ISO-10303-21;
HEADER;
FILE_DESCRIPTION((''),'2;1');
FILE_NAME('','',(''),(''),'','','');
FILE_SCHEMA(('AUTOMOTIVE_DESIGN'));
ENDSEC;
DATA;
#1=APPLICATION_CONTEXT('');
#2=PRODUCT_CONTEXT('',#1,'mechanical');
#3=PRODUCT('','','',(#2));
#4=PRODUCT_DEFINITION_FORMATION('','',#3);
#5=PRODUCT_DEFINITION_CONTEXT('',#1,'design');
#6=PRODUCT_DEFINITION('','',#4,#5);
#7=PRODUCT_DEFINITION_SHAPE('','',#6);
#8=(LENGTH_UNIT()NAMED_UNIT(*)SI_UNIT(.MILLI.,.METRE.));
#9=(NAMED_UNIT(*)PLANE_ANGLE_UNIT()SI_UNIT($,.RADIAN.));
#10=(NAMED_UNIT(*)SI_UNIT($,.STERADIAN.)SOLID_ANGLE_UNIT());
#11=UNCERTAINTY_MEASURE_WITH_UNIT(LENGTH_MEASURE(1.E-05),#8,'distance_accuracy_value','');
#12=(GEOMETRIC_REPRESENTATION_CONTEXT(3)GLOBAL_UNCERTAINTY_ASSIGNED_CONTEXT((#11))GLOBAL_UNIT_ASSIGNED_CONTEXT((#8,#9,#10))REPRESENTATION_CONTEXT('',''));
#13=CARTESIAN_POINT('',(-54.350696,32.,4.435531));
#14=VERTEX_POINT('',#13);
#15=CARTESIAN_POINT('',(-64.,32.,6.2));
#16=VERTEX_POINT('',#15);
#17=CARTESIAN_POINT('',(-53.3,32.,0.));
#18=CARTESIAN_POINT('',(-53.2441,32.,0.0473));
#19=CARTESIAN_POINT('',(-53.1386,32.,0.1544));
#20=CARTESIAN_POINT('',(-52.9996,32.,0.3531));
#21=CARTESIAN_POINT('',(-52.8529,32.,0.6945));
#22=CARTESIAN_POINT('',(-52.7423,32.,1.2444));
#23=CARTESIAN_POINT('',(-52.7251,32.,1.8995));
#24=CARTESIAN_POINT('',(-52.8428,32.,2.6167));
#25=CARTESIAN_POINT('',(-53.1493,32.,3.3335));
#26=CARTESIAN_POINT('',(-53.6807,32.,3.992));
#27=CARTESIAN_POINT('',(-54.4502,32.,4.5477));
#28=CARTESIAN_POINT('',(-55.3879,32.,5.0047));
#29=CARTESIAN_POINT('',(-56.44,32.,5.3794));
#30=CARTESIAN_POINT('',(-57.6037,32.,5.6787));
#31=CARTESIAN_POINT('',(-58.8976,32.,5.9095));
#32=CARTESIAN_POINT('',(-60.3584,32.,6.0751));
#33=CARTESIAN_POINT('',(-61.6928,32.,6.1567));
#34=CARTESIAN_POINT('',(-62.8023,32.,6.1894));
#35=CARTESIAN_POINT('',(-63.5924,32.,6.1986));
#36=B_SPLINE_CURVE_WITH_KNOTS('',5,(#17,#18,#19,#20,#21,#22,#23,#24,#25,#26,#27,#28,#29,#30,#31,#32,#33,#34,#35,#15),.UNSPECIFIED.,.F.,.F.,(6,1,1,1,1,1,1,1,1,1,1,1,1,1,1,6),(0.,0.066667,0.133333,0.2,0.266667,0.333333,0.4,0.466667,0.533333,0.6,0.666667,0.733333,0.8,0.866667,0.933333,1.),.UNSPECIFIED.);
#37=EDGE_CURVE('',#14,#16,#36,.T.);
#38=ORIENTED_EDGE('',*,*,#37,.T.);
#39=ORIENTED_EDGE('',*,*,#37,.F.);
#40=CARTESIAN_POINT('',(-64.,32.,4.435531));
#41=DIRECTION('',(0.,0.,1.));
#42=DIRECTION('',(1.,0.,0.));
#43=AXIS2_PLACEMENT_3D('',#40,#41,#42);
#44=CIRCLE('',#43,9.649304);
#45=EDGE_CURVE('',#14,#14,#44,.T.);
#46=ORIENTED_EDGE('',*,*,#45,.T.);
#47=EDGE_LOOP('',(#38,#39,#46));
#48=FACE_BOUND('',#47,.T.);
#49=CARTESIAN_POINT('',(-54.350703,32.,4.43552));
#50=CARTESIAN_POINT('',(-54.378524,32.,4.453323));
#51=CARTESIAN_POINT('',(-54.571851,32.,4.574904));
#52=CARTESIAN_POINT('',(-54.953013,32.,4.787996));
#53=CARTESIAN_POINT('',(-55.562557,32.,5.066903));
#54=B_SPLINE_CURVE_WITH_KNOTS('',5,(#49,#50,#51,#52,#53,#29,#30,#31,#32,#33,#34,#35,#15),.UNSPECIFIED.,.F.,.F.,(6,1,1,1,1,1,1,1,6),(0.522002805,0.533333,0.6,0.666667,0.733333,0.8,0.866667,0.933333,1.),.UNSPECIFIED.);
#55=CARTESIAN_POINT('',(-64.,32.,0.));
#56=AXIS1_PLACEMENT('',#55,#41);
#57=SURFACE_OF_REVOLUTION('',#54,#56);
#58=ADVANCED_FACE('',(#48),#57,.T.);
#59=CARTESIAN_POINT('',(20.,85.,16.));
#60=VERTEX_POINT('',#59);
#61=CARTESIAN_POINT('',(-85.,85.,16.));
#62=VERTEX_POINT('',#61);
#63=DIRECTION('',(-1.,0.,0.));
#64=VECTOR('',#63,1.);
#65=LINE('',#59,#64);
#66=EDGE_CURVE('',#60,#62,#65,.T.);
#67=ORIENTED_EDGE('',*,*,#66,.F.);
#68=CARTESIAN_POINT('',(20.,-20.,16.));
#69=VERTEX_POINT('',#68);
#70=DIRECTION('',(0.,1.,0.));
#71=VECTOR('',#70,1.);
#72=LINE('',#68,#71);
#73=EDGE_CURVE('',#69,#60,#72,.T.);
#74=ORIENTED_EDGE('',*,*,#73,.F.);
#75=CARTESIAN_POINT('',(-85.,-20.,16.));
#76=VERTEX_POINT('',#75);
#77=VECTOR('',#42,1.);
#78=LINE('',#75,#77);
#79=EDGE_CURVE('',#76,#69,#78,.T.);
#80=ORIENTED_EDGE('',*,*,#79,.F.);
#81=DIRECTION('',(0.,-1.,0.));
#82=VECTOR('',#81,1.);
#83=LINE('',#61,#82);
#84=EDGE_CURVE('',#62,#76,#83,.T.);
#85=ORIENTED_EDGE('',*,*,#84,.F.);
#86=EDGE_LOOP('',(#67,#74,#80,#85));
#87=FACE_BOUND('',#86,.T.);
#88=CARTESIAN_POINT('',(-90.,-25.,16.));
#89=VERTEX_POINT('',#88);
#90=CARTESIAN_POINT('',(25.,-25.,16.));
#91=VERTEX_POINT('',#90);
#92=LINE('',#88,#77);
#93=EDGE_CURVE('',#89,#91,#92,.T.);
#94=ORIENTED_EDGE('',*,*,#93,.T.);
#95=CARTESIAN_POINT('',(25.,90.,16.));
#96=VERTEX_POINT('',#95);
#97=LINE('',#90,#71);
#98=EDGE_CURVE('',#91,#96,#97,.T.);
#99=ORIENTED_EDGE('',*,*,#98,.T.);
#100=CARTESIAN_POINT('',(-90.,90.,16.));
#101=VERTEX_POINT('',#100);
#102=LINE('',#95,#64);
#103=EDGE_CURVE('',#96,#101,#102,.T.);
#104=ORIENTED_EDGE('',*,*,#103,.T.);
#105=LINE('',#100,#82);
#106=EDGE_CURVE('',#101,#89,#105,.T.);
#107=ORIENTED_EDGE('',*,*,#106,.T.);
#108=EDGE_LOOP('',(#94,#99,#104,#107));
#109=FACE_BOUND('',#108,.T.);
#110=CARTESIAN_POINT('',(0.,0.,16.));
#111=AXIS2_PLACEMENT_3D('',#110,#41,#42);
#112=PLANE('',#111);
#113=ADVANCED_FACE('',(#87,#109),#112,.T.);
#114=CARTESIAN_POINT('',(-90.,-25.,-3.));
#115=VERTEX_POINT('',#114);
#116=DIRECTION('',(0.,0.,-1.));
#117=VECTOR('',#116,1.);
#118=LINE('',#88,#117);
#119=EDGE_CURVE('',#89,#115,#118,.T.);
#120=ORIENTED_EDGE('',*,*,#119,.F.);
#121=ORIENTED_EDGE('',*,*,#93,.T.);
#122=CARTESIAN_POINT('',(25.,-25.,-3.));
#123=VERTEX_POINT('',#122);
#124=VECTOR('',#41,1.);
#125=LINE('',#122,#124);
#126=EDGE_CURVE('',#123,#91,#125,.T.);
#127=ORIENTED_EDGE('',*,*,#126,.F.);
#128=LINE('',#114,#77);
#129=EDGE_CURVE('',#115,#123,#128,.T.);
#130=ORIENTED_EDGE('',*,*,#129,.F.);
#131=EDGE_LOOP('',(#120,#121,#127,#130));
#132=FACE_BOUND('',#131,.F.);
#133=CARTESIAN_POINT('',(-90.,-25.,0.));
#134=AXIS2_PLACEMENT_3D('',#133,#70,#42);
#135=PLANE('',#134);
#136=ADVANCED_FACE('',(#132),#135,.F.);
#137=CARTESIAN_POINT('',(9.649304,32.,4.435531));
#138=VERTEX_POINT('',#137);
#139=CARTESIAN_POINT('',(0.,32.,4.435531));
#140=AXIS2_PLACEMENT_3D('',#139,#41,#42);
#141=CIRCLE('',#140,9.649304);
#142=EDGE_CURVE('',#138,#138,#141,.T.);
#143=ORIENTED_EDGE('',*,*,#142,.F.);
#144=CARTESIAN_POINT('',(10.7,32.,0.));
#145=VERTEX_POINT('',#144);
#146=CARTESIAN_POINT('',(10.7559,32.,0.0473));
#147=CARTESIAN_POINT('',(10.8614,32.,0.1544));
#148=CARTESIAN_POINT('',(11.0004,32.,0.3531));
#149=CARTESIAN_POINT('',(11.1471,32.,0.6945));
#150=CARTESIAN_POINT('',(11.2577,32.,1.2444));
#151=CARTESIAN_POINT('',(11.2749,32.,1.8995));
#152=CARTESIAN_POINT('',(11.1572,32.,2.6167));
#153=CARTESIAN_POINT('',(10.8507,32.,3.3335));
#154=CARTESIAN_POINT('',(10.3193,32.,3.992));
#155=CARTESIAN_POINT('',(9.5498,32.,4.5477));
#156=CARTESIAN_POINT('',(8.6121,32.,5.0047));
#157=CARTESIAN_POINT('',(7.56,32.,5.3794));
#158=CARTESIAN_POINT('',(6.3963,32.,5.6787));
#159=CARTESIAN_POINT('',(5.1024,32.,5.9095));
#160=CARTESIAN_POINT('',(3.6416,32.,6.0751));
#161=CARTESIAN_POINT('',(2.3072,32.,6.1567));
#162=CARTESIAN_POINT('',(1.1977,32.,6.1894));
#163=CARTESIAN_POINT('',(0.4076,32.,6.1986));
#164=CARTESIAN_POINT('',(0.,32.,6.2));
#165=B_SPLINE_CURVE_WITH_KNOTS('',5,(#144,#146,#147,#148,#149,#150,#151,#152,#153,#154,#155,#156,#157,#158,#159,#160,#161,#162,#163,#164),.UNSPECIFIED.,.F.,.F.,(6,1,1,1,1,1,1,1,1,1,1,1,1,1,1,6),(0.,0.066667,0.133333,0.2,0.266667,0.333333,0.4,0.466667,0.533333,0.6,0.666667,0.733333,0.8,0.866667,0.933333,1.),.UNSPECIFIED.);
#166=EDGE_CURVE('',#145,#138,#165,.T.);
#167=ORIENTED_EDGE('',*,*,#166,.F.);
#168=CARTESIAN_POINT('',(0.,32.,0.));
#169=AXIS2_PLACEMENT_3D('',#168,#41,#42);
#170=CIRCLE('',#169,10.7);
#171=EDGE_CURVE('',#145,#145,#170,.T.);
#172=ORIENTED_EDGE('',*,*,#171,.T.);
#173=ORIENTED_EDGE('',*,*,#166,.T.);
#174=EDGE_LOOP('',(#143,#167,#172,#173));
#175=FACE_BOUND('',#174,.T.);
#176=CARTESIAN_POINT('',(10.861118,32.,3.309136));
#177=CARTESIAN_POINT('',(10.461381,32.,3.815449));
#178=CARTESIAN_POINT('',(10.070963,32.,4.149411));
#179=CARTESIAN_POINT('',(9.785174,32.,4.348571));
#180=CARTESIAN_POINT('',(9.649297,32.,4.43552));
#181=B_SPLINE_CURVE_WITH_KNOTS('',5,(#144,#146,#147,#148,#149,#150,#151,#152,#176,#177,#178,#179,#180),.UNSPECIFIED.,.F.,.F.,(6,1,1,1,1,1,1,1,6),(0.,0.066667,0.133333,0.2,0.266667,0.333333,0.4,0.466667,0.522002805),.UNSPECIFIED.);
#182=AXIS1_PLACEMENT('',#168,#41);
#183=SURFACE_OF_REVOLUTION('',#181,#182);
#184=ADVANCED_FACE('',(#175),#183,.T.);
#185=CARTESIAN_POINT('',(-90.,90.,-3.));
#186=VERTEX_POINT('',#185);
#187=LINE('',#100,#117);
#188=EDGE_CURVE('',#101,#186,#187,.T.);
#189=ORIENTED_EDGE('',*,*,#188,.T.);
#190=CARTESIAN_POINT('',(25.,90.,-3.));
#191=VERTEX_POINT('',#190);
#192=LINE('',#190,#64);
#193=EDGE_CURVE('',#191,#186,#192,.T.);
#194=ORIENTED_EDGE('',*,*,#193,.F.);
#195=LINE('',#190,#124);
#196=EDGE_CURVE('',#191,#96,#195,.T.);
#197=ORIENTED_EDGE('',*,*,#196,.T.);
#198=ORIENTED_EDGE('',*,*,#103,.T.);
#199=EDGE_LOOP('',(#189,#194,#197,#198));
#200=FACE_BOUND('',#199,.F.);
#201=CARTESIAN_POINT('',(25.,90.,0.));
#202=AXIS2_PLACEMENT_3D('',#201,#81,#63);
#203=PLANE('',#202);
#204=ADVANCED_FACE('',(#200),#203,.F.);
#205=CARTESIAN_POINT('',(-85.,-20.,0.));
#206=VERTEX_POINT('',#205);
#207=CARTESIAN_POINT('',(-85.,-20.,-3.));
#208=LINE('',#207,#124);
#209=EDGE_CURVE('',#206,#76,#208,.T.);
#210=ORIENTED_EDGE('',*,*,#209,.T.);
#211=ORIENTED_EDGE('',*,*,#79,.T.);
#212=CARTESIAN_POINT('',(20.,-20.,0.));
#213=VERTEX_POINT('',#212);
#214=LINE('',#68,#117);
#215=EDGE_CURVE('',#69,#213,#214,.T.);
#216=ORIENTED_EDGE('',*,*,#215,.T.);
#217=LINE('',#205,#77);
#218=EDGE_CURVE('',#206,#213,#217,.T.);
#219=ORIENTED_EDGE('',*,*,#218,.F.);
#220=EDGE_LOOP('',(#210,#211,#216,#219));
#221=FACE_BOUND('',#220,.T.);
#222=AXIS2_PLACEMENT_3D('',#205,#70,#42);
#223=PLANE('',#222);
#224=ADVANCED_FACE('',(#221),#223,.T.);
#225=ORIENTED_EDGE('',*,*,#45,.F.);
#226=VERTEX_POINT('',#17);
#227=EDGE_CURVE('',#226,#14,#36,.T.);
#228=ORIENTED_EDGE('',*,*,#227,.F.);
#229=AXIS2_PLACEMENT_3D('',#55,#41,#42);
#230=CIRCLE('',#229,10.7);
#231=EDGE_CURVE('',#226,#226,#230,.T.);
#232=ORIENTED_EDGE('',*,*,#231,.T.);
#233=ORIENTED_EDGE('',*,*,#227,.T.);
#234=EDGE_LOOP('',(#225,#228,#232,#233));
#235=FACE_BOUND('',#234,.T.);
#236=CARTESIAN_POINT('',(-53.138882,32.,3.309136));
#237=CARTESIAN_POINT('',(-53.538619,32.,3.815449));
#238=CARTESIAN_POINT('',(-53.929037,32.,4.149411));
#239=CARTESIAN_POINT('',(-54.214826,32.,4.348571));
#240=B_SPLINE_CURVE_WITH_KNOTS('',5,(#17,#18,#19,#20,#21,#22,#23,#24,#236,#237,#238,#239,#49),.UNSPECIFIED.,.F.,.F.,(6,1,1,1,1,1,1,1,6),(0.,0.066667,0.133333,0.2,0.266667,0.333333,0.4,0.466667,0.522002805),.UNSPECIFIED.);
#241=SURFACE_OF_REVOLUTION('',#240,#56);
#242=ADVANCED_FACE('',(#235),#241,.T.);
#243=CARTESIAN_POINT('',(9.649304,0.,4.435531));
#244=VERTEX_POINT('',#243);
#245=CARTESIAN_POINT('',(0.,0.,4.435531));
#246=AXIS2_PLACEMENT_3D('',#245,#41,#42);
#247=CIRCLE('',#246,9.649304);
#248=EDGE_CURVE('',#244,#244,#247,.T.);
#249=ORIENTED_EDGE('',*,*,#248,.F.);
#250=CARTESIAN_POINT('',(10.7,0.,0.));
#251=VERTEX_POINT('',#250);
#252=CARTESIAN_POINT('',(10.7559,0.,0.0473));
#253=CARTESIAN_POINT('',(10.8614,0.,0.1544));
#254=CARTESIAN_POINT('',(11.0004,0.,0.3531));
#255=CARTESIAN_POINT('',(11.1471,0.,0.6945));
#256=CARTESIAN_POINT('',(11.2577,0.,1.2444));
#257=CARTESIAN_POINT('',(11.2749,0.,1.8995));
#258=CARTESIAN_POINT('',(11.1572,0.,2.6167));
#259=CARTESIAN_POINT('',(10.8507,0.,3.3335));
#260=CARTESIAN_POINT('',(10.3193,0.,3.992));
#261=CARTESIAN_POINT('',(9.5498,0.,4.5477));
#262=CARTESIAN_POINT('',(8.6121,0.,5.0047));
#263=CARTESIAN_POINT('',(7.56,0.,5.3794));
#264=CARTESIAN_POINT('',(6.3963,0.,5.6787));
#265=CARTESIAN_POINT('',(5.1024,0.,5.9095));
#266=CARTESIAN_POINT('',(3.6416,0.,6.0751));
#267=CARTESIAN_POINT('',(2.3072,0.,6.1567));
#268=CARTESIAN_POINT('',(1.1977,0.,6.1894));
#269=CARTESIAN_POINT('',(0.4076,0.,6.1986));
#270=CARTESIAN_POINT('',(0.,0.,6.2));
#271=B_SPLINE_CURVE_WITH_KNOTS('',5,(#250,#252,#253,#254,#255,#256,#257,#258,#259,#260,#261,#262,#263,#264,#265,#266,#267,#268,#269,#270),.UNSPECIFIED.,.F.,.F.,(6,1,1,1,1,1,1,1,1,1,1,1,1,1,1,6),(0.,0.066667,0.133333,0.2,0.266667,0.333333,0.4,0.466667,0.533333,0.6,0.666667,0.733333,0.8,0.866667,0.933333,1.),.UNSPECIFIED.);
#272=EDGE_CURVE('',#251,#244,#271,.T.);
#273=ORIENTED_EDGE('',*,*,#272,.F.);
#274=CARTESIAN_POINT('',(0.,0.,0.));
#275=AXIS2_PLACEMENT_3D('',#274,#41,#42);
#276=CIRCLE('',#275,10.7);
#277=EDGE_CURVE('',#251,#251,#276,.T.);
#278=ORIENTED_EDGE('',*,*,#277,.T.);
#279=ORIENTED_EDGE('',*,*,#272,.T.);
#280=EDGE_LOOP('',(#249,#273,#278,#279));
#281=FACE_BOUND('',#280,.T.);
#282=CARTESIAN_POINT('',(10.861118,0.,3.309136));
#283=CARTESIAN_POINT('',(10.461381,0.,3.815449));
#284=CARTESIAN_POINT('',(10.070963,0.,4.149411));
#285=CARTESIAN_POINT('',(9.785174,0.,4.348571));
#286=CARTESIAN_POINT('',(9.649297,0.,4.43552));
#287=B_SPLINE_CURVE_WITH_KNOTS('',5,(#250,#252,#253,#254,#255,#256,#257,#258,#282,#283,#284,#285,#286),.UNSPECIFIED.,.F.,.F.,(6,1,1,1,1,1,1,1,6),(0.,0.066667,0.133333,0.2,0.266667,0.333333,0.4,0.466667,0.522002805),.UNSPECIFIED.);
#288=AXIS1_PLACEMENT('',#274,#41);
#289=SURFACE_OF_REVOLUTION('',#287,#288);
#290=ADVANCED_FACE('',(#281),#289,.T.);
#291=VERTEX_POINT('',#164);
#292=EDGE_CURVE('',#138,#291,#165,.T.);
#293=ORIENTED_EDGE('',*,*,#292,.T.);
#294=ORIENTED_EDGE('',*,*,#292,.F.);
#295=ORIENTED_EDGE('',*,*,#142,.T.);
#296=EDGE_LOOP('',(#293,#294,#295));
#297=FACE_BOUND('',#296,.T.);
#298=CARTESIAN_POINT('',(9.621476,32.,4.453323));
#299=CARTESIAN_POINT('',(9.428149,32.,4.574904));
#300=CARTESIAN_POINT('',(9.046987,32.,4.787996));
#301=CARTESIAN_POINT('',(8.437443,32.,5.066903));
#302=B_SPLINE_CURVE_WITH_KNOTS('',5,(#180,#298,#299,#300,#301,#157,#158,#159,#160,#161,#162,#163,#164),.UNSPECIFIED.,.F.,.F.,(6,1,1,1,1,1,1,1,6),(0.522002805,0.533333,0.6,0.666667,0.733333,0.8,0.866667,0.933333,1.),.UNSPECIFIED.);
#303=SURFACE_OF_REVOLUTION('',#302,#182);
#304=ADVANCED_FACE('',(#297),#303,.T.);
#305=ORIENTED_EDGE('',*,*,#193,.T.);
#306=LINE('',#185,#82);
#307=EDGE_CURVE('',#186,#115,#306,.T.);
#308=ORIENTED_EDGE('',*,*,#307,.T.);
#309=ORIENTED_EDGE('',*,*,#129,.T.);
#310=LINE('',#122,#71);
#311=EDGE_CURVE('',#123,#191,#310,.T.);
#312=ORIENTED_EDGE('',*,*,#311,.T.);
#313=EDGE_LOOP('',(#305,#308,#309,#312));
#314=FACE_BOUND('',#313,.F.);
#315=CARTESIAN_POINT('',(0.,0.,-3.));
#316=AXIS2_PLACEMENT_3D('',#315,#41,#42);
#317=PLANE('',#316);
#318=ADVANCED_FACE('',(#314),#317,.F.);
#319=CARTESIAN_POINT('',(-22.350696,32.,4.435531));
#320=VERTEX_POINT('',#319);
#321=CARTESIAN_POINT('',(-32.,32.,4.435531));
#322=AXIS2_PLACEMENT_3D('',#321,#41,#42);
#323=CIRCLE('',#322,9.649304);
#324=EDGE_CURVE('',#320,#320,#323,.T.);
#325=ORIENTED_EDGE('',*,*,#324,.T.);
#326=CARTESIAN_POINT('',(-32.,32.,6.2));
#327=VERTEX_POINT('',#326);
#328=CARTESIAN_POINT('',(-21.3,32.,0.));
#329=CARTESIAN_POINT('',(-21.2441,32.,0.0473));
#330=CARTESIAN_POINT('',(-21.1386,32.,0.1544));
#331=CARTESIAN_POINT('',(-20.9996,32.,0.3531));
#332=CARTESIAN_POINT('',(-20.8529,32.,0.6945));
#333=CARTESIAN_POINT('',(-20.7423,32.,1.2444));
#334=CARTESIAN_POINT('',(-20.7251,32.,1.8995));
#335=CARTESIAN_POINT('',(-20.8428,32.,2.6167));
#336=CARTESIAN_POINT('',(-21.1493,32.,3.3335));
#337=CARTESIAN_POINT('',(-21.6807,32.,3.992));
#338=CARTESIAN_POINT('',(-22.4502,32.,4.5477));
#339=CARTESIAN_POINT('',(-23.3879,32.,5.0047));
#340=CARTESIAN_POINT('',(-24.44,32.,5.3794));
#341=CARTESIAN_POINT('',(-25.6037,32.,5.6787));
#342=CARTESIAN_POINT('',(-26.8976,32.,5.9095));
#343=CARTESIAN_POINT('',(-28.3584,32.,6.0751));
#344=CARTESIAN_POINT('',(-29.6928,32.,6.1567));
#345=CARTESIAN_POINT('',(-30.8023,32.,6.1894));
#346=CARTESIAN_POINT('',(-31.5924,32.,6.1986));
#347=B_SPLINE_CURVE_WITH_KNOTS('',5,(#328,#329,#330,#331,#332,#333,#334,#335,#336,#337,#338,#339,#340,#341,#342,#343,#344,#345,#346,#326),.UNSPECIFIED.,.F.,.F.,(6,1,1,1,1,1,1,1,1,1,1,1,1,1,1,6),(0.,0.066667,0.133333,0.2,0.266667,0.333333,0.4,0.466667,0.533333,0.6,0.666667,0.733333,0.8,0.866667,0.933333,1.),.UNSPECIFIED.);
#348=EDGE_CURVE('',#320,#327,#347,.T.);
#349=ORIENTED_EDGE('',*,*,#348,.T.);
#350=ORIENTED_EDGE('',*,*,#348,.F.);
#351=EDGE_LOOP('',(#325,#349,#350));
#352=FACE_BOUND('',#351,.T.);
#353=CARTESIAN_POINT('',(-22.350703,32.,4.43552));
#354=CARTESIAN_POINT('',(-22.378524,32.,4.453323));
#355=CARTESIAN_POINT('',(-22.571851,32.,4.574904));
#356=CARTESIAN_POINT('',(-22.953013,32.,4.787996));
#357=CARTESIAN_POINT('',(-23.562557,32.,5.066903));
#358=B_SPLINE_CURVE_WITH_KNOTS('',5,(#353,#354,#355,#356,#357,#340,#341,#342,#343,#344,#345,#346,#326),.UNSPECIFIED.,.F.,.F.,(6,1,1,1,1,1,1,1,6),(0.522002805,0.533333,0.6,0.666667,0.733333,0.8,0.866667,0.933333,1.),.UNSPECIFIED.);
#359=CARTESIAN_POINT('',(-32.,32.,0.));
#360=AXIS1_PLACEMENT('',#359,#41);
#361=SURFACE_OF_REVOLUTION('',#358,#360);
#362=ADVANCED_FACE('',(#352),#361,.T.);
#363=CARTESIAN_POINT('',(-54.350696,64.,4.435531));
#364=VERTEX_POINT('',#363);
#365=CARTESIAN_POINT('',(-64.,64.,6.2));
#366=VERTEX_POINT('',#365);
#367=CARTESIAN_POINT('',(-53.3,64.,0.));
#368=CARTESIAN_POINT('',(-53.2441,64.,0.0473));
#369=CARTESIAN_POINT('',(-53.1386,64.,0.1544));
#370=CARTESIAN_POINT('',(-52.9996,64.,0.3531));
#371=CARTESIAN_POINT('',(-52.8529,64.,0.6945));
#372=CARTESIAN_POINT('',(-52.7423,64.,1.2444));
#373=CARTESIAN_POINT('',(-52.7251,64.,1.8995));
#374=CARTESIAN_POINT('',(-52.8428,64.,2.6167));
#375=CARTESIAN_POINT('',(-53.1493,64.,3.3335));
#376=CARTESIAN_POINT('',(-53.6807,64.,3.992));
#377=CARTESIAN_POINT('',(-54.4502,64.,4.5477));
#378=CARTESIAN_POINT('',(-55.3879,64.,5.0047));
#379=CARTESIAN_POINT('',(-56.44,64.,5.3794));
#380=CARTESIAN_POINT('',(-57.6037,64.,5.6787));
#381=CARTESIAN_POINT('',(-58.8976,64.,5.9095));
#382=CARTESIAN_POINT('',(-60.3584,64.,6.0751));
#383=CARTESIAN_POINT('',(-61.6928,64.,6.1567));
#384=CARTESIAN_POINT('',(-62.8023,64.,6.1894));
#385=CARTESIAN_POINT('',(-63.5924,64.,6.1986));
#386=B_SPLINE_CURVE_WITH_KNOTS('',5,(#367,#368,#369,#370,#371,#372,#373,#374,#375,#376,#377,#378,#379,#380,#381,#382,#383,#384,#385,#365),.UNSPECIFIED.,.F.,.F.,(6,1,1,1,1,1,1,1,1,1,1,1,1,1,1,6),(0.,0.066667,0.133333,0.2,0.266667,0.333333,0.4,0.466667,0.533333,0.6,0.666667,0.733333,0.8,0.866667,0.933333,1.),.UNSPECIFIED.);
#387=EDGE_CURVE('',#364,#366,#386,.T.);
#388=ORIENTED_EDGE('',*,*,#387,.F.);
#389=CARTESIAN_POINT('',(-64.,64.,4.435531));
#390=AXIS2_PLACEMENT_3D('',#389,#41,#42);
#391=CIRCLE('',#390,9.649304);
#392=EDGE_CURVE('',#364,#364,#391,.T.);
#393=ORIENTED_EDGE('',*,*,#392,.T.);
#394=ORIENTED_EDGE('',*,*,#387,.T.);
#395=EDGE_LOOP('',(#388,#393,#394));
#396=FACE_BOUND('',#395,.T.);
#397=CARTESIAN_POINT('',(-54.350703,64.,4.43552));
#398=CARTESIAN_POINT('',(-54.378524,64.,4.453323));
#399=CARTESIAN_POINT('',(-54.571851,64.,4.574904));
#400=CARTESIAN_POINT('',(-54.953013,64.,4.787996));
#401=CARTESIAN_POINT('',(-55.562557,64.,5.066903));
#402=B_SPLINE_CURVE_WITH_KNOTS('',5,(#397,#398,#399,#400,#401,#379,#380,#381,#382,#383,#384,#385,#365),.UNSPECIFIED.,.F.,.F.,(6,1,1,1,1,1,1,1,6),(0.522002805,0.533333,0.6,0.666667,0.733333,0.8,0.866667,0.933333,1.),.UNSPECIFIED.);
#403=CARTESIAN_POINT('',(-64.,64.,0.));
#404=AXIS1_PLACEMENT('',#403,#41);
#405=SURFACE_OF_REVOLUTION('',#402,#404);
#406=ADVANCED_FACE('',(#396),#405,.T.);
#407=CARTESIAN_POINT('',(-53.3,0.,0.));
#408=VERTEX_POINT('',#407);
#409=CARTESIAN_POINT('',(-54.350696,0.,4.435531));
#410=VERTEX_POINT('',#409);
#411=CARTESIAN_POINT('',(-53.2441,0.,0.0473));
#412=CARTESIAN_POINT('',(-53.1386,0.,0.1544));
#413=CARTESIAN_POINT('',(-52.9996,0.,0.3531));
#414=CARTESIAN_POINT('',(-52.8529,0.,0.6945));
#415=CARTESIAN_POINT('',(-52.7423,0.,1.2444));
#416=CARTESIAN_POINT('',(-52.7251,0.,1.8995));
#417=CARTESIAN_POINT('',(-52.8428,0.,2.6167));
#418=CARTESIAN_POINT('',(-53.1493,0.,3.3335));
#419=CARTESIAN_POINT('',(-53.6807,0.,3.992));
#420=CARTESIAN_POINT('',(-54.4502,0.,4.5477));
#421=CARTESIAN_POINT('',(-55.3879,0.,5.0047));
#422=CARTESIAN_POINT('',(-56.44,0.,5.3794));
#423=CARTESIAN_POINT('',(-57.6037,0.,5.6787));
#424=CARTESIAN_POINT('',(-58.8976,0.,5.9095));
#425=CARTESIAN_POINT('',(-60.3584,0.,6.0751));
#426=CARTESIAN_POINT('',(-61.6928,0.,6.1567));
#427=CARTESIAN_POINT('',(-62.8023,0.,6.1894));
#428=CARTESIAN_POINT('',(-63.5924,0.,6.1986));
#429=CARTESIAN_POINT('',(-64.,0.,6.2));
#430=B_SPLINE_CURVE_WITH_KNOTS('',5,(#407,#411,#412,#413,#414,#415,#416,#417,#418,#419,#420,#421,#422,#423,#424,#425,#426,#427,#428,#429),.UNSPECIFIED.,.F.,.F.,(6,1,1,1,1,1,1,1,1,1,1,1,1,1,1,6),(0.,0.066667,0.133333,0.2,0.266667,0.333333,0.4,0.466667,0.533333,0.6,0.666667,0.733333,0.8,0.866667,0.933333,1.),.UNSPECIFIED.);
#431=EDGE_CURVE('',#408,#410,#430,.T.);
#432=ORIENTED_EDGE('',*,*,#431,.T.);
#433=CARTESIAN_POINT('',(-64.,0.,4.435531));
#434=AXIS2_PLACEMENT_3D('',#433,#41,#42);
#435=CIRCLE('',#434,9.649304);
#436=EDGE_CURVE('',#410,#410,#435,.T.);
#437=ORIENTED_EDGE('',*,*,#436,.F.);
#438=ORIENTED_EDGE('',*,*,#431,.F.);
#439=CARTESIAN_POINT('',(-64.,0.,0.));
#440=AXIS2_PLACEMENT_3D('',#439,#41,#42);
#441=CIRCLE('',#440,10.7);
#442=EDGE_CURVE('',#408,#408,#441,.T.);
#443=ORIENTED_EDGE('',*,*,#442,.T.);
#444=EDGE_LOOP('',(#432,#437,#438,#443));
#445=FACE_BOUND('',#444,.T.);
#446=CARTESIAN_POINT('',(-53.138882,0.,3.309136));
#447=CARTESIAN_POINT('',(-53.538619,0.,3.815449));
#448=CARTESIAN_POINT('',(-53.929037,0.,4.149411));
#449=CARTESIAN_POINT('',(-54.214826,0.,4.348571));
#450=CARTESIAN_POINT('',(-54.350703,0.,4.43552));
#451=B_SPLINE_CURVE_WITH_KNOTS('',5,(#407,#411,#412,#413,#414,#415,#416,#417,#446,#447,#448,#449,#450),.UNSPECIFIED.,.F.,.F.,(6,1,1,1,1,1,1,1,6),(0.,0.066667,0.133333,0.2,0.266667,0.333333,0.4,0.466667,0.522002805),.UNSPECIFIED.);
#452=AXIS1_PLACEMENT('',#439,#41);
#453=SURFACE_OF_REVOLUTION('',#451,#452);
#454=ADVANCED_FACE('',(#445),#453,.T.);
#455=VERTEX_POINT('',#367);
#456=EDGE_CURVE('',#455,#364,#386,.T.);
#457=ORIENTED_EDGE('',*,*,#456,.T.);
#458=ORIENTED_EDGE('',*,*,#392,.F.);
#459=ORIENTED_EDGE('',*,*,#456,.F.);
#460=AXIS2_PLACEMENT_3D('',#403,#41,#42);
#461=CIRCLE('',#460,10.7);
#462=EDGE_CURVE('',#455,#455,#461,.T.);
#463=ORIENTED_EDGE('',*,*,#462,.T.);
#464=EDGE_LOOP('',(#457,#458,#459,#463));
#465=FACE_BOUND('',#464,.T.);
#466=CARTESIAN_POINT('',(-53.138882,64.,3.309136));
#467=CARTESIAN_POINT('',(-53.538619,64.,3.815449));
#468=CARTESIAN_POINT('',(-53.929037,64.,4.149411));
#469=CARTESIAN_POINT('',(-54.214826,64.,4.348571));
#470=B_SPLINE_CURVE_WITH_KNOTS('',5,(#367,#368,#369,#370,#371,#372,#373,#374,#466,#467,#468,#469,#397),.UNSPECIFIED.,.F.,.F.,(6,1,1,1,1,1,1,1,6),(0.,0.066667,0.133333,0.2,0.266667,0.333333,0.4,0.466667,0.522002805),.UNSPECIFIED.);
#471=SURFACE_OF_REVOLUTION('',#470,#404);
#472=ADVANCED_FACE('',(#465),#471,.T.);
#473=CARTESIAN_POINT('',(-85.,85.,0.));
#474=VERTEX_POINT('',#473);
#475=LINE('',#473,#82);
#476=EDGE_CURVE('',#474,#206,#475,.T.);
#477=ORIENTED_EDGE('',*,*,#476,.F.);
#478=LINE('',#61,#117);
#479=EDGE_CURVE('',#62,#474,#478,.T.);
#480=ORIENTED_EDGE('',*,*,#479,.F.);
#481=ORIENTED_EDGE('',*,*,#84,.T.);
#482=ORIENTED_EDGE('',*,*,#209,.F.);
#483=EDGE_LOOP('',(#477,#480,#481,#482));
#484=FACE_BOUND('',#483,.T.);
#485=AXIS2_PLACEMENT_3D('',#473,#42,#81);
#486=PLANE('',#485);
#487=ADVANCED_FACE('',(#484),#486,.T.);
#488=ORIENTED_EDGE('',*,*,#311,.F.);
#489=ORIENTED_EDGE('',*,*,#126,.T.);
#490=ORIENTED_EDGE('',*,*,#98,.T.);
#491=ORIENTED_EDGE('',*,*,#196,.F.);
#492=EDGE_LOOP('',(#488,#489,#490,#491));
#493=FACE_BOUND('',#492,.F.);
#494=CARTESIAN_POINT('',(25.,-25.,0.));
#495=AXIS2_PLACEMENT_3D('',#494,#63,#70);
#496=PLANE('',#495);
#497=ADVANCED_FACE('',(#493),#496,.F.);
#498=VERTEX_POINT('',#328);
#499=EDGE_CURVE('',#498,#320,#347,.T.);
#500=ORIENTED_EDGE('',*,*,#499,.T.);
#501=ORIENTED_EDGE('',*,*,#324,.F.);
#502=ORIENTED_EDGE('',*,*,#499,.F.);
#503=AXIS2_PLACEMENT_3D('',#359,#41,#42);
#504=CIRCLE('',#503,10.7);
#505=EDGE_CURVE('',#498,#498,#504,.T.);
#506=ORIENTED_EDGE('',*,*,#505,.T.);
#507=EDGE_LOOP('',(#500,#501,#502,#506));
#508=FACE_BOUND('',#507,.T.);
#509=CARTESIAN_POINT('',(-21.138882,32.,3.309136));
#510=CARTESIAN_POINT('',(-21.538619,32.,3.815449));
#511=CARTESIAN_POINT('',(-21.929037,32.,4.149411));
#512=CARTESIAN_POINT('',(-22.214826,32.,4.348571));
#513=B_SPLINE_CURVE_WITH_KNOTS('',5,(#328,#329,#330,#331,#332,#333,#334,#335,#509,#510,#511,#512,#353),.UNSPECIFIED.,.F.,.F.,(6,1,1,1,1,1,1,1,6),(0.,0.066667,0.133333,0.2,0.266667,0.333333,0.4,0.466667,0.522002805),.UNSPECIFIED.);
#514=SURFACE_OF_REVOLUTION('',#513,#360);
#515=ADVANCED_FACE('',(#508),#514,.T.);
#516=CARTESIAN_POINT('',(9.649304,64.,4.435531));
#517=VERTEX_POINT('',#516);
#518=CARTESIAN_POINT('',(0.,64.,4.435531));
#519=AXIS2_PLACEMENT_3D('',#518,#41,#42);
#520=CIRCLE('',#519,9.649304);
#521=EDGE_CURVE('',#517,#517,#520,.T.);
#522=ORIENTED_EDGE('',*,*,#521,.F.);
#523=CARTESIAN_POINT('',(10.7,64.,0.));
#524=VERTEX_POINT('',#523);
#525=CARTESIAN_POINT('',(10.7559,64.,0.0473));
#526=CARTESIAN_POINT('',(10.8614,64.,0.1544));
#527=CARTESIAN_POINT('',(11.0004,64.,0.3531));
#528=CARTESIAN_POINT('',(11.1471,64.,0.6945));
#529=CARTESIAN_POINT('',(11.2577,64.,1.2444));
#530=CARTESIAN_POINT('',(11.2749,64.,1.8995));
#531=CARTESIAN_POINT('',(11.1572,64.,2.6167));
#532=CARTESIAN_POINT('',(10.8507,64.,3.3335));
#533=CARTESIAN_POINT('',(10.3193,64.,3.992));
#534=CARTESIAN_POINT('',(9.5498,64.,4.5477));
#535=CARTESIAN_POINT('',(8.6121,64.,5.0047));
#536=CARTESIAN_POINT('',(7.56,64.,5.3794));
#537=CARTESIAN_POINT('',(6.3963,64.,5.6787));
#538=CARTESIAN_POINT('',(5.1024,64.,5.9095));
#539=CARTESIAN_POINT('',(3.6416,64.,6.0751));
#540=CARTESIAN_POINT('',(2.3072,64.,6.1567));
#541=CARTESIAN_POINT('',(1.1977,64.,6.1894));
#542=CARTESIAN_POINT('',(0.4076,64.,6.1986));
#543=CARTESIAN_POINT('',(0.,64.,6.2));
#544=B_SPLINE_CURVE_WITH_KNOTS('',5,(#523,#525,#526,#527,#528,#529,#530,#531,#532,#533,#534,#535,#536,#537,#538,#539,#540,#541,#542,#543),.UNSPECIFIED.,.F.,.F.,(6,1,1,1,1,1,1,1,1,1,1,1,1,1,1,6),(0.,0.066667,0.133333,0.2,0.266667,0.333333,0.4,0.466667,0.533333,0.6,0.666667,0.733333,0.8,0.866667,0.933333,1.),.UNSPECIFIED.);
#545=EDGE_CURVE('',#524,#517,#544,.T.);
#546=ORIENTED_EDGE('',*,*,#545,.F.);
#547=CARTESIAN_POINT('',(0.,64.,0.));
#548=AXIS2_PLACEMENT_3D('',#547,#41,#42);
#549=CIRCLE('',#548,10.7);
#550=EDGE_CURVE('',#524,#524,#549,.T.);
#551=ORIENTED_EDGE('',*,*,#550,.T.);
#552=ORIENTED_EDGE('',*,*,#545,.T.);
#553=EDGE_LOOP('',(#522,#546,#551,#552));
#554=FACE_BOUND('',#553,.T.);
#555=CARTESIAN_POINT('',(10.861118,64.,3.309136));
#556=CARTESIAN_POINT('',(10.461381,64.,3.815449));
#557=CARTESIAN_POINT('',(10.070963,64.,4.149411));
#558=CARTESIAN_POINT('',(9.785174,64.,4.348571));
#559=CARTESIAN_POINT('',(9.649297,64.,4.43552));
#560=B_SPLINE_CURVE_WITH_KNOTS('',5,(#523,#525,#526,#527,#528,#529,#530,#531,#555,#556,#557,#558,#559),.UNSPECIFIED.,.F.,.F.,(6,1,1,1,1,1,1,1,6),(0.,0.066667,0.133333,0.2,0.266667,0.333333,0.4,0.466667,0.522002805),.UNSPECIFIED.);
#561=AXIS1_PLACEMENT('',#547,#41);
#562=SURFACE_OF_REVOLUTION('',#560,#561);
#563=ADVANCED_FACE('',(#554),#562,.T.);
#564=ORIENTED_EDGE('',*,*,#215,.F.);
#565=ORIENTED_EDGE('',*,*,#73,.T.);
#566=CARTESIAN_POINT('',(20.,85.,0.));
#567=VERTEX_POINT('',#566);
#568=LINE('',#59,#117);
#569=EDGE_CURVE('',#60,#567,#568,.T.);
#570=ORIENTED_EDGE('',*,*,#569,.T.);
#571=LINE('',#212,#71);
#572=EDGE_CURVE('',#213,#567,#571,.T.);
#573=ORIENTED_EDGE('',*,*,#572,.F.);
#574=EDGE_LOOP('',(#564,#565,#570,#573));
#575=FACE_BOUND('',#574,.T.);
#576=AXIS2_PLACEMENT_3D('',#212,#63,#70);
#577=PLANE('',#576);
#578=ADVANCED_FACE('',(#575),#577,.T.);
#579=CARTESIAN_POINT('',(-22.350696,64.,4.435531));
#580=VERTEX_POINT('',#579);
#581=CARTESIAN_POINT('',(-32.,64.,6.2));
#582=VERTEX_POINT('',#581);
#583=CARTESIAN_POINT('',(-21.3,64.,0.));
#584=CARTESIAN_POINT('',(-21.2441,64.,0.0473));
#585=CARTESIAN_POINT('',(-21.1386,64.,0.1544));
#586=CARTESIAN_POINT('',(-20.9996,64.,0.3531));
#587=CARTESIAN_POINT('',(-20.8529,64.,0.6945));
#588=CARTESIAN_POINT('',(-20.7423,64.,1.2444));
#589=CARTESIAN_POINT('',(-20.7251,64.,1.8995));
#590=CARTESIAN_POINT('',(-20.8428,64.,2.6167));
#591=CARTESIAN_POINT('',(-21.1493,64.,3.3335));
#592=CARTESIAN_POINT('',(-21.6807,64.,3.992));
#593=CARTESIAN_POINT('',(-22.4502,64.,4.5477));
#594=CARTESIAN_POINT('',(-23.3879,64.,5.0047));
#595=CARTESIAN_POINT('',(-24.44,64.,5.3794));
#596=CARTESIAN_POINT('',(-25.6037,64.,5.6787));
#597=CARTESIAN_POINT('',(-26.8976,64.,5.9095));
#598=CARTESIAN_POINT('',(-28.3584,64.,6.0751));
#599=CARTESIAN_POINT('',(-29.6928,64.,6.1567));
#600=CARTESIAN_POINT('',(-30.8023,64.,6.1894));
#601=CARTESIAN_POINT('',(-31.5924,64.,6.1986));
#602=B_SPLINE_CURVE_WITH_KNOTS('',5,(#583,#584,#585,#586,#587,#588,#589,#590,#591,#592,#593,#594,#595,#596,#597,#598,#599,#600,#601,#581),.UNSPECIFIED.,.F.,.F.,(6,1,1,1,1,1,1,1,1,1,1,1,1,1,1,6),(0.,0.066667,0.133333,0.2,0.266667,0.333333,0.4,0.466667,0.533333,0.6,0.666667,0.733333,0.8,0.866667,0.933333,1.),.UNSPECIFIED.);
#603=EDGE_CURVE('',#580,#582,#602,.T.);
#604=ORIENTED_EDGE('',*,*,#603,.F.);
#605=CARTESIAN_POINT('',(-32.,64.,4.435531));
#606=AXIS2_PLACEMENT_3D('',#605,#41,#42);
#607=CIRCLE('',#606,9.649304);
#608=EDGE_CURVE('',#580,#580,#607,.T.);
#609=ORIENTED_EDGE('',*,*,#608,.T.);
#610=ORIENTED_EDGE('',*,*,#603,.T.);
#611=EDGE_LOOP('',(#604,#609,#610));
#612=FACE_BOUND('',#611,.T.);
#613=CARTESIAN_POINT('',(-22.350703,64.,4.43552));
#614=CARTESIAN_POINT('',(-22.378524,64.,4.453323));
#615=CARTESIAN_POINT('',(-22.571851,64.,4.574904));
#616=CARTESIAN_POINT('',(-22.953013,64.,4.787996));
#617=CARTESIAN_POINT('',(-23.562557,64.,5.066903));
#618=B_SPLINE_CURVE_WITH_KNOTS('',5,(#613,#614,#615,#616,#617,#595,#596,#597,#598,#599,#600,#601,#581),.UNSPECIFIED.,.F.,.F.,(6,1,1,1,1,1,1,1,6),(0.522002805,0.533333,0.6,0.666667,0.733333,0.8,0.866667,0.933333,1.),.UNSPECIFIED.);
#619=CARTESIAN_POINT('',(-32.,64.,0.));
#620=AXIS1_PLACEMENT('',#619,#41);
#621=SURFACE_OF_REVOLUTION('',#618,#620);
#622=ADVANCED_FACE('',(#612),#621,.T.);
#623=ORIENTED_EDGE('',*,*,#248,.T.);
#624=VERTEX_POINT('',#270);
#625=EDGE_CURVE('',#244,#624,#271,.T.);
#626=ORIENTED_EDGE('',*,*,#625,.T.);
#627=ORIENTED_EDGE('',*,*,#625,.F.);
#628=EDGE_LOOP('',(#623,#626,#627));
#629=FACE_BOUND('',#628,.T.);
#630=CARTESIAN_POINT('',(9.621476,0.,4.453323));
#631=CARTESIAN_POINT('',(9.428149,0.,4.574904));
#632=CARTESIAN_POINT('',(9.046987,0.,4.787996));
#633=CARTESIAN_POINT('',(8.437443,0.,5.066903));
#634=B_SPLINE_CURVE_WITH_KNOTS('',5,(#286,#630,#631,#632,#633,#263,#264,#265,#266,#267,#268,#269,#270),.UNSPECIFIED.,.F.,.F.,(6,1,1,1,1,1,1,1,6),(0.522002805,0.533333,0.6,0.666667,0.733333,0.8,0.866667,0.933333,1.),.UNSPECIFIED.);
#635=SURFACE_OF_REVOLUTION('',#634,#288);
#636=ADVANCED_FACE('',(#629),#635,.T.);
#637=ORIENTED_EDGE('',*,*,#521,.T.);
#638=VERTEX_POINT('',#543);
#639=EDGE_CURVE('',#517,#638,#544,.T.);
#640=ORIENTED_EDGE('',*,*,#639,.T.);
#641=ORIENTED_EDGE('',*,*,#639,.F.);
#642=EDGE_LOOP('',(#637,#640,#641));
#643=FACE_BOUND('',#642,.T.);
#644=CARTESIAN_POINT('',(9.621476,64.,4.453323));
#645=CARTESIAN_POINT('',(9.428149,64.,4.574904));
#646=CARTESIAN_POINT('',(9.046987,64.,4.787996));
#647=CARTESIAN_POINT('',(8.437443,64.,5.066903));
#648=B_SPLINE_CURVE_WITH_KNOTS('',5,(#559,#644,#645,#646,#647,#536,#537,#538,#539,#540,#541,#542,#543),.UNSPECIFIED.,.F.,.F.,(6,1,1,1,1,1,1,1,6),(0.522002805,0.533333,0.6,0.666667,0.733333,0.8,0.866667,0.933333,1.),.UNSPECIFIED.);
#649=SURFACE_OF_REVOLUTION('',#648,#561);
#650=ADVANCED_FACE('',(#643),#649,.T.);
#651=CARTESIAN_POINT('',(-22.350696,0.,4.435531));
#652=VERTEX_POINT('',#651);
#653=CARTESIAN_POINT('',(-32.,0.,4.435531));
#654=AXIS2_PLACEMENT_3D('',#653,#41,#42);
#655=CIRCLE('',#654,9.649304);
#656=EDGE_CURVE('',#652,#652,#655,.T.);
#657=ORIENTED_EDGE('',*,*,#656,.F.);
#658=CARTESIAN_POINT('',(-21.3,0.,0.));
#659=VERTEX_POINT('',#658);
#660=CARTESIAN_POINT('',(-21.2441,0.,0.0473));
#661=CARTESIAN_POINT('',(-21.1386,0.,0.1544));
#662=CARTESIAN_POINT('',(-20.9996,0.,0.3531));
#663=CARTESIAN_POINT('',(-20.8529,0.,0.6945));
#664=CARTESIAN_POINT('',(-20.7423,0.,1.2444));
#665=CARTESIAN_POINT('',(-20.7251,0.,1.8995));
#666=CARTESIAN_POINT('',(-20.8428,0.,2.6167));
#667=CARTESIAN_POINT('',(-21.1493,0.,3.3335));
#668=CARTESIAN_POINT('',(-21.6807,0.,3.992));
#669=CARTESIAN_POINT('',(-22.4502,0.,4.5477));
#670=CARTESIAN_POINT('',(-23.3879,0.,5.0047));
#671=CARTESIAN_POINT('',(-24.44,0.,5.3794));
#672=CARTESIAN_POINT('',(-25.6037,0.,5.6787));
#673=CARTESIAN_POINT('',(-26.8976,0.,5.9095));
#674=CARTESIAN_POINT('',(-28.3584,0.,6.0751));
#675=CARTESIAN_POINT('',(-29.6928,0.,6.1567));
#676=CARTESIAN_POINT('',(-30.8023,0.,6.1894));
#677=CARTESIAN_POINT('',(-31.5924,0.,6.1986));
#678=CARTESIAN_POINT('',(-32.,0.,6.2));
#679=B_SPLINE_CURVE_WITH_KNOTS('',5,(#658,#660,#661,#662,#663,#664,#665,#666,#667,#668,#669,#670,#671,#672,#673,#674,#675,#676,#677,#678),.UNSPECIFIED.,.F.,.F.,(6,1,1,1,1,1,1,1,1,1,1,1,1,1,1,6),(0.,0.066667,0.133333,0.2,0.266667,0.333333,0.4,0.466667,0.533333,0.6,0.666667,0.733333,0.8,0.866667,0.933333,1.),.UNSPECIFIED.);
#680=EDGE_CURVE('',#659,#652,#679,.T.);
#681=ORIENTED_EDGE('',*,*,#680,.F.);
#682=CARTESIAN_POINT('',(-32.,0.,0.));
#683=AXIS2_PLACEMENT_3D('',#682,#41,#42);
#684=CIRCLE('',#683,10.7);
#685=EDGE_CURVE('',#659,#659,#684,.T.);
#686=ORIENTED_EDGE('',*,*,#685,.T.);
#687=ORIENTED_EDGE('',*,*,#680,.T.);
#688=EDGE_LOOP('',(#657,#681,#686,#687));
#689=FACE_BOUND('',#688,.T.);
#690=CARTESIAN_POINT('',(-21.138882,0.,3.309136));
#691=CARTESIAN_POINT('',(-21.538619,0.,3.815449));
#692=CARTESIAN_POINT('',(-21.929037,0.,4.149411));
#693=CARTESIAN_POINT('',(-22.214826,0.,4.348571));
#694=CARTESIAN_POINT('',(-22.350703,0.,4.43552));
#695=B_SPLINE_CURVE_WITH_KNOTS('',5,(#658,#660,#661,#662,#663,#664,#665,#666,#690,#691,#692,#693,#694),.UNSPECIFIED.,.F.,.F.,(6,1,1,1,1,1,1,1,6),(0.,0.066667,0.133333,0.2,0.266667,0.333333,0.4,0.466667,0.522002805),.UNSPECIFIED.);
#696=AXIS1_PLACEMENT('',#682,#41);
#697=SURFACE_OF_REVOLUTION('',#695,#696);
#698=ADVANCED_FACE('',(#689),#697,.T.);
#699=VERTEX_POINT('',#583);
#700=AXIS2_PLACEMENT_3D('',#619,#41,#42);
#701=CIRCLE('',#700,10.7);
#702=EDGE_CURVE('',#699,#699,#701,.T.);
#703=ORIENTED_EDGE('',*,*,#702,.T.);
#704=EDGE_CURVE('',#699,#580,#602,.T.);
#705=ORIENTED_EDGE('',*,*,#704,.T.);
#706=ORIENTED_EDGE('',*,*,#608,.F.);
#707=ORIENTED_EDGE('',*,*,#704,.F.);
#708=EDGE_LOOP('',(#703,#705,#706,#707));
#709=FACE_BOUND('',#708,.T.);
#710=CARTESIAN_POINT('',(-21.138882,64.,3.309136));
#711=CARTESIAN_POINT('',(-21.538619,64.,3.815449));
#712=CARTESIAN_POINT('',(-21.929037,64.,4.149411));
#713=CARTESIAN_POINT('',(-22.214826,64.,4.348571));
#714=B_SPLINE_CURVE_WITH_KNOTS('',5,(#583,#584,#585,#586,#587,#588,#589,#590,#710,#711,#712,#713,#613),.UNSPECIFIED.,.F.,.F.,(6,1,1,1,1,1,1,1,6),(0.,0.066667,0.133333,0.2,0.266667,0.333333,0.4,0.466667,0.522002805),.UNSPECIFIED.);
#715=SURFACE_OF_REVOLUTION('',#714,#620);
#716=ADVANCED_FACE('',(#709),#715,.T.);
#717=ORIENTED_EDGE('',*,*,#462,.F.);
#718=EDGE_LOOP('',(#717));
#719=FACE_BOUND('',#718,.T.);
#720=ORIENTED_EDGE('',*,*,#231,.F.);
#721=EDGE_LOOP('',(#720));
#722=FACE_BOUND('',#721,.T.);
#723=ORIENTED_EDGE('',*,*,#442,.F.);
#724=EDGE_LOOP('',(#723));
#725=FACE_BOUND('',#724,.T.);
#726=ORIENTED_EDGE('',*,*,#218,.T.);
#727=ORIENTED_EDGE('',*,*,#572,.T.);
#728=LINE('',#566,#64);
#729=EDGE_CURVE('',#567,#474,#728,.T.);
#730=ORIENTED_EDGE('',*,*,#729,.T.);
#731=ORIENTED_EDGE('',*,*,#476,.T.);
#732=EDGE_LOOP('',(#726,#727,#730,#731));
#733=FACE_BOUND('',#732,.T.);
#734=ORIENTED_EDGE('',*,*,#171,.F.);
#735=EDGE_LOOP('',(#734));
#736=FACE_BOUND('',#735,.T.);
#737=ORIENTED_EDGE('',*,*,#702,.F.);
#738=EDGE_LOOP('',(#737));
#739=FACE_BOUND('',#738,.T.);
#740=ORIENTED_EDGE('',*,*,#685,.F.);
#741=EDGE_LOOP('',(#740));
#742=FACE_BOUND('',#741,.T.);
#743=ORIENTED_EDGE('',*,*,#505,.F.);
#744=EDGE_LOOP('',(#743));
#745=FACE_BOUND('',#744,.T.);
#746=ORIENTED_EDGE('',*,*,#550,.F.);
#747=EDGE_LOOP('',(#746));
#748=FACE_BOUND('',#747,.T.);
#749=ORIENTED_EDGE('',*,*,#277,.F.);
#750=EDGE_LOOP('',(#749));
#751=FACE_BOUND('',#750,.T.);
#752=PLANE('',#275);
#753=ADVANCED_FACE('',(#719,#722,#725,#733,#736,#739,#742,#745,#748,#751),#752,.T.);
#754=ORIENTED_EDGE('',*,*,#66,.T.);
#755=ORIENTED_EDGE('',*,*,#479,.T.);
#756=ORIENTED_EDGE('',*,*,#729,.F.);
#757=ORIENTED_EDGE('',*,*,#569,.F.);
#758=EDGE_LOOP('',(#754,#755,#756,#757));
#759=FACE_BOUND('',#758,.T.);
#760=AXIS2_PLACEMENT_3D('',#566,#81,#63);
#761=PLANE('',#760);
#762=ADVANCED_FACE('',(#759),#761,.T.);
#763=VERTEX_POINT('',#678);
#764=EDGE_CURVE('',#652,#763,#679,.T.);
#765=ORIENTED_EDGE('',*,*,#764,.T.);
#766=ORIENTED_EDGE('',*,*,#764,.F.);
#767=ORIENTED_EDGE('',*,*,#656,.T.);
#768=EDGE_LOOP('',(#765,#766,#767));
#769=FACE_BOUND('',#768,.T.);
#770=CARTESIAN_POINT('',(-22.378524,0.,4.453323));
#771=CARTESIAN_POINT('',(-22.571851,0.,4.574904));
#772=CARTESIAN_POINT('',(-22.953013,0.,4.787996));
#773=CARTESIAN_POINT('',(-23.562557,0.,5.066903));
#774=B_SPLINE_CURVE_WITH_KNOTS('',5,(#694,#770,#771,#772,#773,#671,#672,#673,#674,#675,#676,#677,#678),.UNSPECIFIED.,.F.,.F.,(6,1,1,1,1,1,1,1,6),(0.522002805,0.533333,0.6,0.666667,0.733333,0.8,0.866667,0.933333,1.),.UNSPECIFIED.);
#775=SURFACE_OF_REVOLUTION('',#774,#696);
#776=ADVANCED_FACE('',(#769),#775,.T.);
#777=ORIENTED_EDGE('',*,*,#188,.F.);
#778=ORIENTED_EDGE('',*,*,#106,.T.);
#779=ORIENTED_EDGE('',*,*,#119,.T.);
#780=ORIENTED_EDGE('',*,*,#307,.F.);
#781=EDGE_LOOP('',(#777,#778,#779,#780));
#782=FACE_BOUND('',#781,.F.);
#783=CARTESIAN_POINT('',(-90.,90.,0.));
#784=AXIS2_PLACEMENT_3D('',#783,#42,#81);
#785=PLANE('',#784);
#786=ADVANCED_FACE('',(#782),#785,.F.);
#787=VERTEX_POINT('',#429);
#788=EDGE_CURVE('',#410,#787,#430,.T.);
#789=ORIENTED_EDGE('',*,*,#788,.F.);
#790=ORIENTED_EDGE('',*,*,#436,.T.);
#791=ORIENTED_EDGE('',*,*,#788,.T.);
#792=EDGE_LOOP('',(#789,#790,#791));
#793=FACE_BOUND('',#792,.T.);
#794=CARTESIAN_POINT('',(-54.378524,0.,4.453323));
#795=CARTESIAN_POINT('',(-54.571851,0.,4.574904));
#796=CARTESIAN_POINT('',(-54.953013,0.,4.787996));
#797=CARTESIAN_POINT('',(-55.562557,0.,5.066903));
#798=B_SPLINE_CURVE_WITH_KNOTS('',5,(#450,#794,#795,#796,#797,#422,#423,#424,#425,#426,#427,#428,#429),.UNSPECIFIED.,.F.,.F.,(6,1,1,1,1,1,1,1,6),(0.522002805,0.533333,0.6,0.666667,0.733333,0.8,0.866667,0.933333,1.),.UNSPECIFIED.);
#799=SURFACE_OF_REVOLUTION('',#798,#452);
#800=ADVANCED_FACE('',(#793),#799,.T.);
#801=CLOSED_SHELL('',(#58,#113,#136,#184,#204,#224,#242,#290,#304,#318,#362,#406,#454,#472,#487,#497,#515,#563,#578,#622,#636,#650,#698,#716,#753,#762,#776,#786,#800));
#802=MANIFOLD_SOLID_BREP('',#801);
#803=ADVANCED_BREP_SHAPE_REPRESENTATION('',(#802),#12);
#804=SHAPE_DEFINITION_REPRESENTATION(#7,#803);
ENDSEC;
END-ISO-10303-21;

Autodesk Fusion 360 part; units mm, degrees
sketch "Sketch1" plane through (0, 0, 0) normal (0, 1, 0) x (1, 0, 0)
  line L0 (0, 0) -> (0, -6.2)
  line L1 (0, 0) -> (10.7, 0)
  spline S0 degree 5 poles (10.7, 0) (10.7559, -0.0473) (10.8614, -0.1544) (11.0004, -0.3531) (11.1471, -0.6945) (11.2577, -1.2444) (11.2749, -1.8995) (11.1572, -2.6167) (10.8507, -3.3335) (10.3193, -3.992) (9.5498, -4.5477) (8.6121, -5.0047) (7.56, -5.3794) (6.3963, -5.6787) (5.1024, -5.9095) (3.6416, -6.0751) (2.3072, -6.1567) (1.1977, -6.1894) (0.4076, -6.1986) (0, -6.2) knots 0 0 0 0 0 0 0.066667 0.133333 0.2 0.266667 0.333333 0.4 0.466667 0.533333 0.6 0.666667 0.733333 0.8 0.866667 0.933333 1 1 1 1 1 1
  line L2 (2.4497, -6.1915) -> (-2.4497, -6.2085)
  line L3 (10.7986, -3.7001) -> (8.5, -5.171)
  point P0 (11.25, -1.5)
  point P1 (11.25, -1.5)
  point P2 (9.6493, -4.4355)
  dimension "d1" = 6.2
  dimension "d2" = 10.7
  dimension "d5" = 1.5
  dimension "d6" = 11.25
revolve "Revolve1" add sketch "Sketch1" angle 360 about axis through (0, 0, 0) along (0, 0, 1) makes body 1
pattern_linear "R-Pattern1" count 3 spacing 32 along (0, 1, 0) count 3 spacing 32 along (-1, 0, 0) of bodies 1 makes body 2 at (6.1006, 26.3395, 0) makes body 3 at (7.4981, 67.6109, 0) makes body 4 at (-35.0404, -7.7469, 0) makes body 5 at (-35.0404, 24.2531, 0) makes body 6 at (-24.5019, 67.6109, 0) makes body 7 at (-69.1888, -6.5066, 0) makes body 8 at (-69.1888, 38.5066, 0) makes body 9 at (-56.5019, 67.6109, 0)
sketch "Sketch2" plane through (0, 0, 0) normal (0, 0, 1) x (1, 0, 0)
  line L0 (-85, -20) -> (20, -20)
  line L1 (20, -20) -> (20, 85)
  line L2 (20, 85) -> (-85, 85)
  line L3 (-85, 85) -> (-85, -20)
  line L4 (25, -25) -> (25, 90)
  line L5 (25, 90) -> (-90, 90)
  line L6 (-90, 90) -> (-90, -25)
  line L7 (-90, -25) -> (25, -25)
  dimension "d14" = 5
extrude "Extrude1" add sketch "Sketch2" along normal blind 16 and the other way blind 3 separate body makes body 10
extrude "Extrude2" add sketch "Sketch2" against normal blind 3 contours L0 L1 L2 L3 bodies 1 2 3 4 5 6 7 8 9 10
